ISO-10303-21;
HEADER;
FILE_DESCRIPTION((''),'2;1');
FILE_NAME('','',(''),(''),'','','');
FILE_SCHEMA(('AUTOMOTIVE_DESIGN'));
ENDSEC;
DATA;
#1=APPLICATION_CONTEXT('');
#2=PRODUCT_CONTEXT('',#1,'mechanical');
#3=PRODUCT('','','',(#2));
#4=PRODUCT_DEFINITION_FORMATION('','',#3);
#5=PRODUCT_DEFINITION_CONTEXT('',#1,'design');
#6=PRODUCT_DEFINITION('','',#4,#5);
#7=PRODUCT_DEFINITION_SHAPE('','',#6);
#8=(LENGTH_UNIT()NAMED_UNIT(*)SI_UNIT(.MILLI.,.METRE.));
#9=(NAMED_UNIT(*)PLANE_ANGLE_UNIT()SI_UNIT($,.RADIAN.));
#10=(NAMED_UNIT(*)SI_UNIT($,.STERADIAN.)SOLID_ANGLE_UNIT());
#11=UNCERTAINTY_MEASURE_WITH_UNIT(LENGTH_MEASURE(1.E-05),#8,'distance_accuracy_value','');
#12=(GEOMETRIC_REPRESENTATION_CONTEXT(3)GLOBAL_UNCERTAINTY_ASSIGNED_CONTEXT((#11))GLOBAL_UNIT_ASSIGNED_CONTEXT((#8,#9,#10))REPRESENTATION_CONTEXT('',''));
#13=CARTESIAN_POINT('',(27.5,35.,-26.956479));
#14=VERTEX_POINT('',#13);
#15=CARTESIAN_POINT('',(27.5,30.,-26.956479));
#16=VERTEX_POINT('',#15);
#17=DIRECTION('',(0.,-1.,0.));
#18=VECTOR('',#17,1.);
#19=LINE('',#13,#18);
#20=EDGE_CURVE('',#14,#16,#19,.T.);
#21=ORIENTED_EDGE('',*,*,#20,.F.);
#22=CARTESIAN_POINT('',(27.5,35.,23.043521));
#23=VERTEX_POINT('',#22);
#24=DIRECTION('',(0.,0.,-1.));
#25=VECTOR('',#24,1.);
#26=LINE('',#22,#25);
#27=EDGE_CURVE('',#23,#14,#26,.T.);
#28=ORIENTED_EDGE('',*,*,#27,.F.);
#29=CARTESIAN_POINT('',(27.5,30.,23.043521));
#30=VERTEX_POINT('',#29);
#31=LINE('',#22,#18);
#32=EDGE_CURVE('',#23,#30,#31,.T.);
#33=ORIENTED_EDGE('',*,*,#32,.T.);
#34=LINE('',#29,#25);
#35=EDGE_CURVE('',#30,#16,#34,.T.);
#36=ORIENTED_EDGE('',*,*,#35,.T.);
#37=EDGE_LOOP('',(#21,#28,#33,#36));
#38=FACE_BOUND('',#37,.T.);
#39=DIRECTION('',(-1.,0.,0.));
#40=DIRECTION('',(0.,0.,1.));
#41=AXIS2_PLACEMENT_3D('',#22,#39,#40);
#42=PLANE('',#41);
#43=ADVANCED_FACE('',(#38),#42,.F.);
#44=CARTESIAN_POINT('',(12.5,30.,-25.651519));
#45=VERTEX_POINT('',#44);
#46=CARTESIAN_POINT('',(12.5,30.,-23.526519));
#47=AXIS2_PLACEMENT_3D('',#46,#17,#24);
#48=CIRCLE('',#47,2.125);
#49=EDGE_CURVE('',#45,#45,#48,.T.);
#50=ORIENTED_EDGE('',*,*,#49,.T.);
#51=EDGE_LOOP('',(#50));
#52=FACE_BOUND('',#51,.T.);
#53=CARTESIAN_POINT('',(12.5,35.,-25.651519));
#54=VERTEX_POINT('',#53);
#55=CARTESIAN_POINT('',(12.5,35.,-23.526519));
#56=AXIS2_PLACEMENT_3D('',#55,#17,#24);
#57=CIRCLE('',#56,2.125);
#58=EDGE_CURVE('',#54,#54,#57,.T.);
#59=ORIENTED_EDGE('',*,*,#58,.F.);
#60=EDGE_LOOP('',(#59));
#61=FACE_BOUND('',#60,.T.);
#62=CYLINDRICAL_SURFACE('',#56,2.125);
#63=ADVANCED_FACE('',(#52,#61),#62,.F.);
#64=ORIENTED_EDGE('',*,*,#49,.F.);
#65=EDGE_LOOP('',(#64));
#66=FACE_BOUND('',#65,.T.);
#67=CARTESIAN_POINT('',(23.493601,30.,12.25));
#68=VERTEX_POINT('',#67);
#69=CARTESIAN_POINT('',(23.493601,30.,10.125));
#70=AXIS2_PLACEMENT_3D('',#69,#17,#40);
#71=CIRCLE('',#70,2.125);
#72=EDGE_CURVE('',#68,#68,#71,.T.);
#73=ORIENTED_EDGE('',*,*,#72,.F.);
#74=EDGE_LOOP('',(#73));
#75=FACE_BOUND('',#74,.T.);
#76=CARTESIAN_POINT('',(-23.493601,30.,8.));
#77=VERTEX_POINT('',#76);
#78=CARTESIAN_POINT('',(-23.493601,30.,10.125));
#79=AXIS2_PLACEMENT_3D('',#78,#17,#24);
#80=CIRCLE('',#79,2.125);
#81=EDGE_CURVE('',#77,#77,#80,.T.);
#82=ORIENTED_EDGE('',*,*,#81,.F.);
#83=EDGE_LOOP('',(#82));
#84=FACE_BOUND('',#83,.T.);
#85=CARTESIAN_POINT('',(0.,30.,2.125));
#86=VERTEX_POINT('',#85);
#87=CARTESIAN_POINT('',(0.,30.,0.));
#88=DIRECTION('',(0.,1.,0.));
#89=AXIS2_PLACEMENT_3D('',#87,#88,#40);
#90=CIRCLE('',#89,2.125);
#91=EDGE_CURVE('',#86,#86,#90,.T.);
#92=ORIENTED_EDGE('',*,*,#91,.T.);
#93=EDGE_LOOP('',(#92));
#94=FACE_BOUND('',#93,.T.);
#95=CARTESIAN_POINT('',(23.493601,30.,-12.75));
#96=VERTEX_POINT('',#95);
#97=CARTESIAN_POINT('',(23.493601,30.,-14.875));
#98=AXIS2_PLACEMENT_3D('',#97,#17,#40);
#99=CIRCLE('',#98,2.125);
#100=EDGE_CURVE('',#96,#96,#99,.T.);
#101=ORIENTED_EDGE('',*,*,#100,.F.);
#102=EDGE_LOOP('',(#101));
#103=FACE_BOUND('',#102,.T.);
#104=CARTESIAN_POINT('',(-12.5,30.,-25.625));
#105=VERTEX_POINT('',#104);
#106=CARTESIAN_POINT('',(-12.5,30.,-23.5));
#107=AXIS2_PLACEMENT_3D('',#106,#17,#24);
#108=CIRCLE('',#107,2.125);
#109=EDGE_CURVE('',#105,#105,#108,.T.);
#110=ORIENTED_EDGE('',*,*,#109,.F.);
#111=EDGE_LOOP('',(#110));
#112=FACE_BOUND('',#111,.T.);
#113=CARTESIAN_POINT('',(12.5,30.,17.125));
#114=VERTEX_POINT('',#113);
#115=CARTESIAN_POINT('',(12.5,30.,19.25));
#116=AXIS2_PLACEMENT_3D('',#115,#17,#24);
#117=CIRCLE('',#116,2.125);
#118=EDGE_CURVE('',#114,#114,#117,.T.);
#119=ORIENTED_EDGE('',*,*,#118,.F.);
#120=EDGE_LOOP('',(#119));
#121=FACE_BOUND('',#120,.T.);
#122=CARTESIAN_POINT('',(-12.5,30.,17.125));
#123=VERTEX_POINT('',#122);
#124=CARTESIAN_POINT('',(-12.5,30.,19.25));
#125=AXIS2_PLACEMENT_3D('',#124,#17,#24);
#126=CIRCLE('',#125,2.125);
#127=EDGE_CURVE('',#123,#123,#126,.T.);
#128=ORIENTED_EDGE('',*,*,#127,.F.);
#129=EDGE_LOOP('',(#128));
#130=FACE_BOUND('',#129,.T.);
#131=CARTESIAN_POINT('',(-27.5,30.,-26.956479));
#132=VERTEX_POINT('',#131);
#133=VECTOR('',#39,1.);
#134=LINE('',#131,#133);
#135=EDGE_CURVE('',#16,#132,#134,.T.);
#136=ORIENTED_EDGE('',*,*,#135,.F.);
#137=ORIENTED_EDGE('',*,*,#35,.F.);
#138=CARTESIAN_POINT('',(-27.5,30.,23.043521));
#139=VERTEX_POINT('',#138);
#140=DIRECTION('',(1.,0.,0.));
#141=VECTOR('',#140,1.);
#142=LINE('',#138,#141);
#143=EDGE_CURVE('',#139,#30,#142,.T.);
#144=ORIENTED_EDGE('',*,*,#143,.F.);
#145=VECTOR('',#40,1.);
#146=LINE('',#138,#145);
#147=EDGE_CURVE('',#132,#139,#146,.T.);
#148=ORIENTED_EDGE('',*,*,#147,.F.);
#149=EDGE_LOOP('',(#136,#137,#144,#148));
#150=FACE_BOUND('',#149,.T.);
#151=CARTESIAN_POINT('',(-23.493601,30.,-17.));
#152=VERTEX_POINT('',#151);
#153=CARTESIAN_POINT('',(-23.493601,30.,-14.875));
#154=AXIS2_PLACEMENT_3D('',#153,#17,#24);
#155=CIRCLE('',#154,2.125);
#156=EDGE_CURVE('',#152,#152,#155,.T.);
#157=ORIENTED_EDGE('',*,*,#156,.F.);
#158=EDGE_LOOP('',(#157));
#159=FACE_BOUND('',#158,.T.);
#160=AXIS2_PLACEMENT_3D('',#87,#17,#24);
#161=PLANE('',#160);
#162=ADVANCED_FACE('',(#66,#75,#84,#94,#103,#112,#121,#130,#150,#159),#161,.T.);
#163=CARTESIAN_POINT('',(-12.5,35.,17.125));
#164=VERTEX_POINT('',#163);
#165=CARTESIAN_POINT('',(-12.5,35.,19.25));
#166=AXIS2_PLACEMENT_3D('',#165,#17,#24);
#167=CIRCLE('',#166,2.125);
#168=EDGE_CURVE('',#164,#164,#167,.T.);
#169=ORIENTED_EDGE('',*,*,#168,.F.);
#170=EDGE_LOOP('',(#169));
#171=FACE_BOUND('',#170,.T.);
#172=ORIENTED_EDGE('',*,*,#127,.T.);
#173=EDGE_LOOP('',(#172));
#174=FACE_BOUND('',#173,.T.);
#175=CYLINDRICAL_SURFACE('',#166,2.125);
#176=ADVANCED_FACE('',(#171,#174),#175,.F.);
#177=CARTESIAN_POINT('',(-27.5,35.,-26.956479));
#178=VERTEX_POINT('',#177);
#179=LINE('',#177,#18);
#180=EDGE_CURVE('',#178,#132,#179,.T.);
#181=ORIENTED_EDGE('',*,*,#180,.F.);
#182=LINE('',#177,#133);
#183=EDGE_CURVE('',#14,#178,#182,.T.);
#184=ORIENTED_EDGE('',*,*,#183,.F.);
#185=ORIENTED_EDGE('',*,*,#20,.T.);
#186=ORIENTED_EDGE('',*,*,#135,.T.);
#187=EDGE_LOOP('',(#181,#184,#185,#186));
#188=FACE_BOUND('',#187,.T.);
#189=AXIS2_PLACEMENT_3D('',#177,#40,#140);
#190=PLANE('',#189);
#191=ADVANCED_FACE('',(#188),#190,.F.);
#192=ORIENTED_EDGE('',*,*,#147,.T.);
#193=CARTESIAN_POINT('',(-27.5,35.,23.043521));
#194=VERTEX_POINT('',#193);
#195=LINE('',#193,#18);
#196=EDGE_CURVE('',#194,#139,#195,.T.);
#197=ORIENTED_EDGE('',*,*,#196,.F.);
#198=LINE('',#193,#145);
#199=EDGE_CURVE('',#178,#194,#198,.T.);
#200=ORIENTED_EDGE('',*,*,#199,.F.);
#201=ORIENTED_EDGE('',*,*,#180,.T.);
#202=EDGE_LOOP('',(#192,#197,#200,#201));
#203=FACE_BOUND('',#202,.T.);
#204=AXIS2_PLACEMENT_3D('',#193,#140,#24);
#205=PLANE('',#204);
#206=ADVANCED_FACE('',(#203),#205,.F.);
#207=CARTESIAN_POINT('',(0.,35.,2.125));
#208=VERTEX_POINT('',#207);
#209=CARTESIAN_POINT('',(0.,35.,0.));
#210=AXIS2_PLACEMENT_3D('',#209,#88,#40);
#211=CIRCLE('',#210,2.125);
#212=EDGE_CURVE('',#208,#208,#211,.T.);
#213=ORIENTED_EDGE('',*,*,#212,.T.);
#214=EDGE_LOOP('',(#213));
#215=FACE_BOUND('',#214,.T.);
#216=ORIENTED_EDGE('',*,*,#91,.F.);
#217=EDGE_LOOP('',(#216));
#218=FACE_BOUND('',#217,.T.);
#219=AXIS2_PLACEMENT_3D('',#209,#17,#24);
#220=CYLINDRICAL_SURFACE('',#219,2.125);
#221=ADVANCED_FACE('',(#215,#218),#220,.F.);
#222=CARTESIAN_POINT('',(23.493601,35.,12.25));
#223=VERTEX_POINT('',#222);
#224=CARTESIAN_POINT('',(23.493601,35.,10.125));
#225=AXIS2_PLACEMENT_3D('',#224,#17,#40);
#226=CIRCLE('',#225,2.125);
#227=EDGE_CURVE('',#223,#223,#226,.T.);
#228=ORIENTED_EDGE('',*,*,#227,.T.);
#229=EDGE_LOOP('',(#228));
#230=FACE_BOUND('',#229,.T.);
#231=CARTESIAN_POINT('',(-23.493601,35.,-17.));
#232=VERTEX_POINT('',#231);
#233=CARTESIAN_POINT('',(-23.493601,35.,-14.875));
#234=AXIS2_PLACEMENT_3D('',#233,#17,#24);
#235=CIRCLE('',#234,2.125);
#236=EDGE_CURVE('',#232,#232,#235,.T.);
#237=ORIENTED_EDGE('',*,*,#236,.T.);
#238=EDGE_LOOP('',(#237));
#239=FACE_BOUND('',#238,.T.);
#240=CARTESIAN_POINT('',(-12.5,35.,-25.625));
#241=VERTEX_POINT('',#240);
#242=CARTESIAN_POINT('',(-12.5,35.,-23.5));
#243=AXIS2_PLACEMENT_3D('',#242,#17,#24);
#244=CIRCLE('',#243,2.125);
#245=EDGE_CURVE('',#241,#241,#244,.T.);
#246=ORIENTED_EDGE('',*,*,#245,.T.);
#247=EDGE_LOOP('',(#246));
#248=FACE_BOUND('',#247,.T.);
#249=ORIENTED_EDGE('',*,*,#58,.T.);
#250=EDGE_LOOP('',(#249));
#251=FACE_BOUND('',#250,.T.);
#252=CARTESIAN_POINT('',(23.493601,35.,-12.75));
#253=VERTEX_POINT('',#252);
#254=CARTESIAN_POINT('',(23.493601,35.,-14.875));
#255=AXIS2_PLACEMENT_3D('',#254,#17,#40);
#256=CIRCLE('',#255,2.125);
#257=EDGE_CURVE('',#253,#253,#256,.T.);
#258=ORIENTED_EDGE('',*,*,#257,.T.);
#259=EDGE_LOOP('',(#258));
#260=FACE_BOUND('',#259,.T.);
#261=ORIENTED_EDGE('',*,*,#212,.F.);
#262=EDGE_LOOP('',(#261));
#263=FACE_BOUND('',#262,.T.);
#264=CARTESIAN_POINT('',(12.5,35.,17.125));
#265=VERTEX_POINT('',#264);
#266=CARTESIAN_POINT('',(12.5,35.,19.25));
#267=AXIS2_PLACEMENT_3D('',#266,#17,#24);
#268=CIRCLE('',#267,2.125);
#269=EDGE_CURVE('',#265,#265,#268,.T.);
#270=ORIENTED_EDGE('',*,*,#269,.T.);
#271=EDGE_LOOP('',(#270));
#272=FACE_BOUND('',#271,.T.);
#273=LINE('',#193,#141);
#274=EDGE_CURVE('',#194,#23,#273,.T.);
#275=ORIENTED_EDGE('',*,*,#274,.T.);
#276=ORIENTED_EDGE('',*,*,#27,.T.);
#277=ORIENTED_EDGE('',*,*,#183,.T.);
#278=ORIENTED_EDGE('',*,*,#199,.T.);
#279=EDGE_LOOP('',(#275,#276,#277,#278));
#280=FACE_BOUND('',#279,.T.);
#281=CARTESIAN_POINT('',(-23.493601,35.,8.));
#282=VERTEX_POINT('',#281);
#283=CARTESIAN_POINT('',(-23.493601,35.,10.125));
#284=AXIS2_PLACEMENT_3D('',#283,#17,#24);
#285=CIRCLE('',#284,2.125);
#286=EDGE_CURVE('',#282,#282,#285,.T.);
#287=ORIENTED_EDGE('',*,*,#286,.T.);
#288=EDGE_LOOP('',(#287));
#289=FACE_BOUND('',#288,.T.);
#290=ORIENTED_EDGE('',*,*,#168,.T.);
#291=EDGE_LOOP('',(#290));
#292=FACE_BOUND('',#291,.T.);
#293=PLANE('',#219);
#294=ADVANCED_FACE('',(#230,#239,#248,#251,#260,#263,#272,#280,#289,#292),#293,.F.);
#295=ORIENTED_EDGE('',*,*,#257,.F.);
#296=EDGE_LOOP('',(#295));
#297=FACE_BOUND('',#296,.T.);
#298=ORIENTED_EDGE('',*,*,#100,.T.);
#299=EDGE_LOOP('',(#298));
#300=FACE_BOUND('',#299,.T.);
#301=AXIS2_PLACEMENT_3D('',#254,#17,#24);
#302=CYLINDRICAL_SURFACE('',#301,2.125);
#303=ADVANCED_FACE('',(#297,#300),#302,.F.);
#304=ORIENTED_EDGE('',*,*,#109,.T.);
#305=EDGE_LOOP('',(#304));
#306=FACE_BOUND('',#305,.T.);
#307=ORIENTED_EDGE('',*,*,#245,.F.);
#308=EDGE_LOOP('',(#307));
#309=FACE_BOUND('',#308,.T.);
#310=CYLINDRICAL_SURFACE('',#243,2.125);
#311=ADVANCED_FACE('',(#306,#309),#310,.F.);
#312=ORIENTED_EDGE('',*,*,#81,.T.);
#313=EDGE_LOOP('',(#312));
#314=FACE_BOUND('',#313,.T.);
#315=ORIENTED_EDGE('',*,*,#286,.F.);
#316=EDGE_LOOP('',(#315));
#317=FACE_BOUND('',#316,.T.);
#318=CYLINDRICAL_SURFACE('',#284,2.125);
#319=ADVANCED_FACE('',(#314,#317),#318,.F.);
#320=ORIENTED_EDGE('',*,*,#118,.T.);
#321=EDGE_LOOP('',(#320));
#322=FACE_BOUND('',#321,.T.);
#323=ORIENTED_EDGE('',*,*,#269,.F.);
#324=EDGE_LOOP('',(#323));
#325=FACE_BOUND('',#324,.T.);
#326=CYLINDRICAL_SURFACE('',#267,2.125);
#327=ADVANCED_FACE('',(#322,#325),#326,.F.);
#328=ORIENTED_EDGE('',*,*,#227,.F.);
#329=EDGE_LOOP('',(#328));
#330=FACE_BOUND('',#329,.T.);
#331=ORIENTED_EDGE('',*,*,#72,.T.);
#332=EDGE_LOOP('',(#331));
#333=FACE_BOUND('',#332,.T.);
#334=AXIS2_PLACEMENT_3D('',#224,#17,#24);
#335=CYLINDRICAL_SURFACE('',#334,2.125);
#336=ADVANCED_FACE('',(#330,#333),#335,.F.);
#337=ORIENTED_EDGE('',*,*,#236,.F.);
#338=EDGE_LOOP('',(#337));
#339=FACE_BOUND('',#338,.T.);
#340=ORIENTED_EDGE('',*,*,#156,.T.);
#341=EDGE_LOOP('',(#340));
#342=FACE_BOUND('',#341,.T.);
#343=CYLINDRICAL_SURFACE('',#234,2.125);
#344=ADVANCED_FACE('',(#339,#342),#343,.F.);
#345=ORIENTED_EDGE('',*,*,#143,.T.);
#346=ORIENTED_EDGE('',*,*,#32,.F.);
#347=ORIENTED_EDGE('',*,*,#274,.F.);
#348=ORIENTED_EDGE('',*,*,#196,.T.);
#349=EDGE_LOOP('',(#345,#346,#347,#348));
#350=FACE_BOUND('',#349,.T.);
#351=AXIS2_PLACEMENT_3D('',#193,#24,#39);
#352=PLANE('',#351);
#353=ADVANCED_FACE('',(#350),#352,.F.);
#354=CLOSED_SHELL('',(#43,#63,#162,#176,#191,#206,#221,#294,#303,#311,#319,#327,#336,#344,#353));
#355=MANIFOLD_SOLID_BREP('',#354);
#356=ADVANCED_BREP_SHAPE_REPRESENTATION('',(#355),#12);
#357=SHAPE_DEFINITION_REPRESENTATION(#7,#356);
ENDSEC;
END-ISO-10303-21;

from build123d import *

# Parameters (mm, degrees)
CROQUIS1_R                              = 15.25
CROQUIS1_R_2                            = 2.125
SOPORTE_CAJA_REDUCTORA_DEPTH            = 20
CROQUIS3_R                              = 2.125
CORTAR_EXTRUIR1_DEPTH                   = 51.423828692
REDONDEO1_R                             = 5
BOSS_EXTRUDE1_DEPTH                     = 20
CUT_EXTRUDE1_REACH                      = 55.852
SKETCH2_R                               = 1.625
CUT_EXTRUDE2_DEPTH                      = 2
SKETCH4_R                               = 1.625
CUT_EXTRUDE3_DEPTH                      = 63.291652731
CUT_EXTRUDE4_START                      = -4.5
CUT_EXTRUDE4_DEPTH                      = 2
CROQUIS6_W                              = 4.75
CROQUIS6_H                              = 4.75
CORTAR_EXTRUIR17_DEPTH                  = 42.231056256
CROQUIS7_W                              = 60
CROQUIS7_H                              = 20
CORTAR_EXTRUIR18_DEPTH                  = 51.423828692
SALIENTE_EXTRUIR2_DEPTH                 = 49
SOPORTE_START                           = -15
SOPORTE_MOTOR_DEPTH                     = 15
CROQUIS12_R                             = 2.125
AGUJEROS_DE_SUJECION_A_BASE_DEPTH       = 84.087679592
TUERCA_START                            = -4
TUERCA_AGUJERO_DE_SUJECION_A_BASE_DEPTH = 10
SALIENTE_EXTRUIR4_DEPTH                 = 15
CORTAR_EXTRUIR19_DEPTH                  = 25
CROQUIS14_W                             = 50
CROQUIS14_H                             = 118
CORTAR_EXTRUIR22_DEPTH                  = 146.556045907
CROQUIS15_W                             = 10
CROQUIS15_H                             = 7
CORTAR_EXTRUIR23_DEPTH                  = 42.231056256
CORTAR_EXTRUIR24_DEPTH                  = 42.231056256
CROQUIS18_W                             = 40
CROQUIS18_H                             = 10
CORTAR_EXTRUIR25_DEPTH                  = 44.27311521
SALIENTE_EXTRUIR5_DEPTH                 = 10
CROQUIS20_R                             = 1
CORTAR_EXTRUIR26_DEPTH                  = 49.229270158
CORTAR_EXTRUIR27_REACH                  = 62.959
CORTAR_EXTRUIR27_END_RADIUS             = 15.25
CROQUIS21_R                             = 1.625
CROQUIS22_R                             = 2.125
CROQUIS22_R_2                           = 1
SALIENTE_EXTRUIR6_DEPTH                 = 10
CROQUIS23_R                             = 1.625
CORTAR_EXTRUIR28_DEPTH                  = 52.269508521
CORTAR_EXTRUIR29_START                  = -3
CORTAR_EXTRUIR29_DEPTH                  = 10
SALIENTE_EXTRUIR7_DEPTH                 = 10
CORTAR_EXTRUIR30_REACH                  = 72.235
CROQUIS27_R                             = 1.625
CORTAR_EXTRUIR31_REACH                  = 75.235
CORTAR_EXTRUIR31_START                  = -3
CORTAR_EXTRUIR32_REACH                  = 58.612
CROQUIS29_R                             = 1.625
CORTAR_EXTRUIR33_REACH                  = 61.112
CORTAR_EXTRUIR33_START                  = -2.5
CROQUIS35_W                             = 13.305418987
CROQUIS35_H                             = 6.826864192
CORTAR_EXTRUIR34_DEPTH                  = 63.931555098
CORTAR_EXTRUIR34_DEPTH_BACK             = 63.931555098
CORTAR_EXTRUIR35_START                  = -3
CORTAR_EXTRUIR35_DEPTH                  = 10
SALIENTE_EXTRUIR8_DEPTH                 = 10
SALIENTE_EXTRUIR9_DEPTH                 = 13
SALIENTE_EXTRUIR10_DEPTH                = 3
CROQUIS40_W                             = 106.583537839
CROQUIS40_H                             = 47.391515964
CORTAR_EXTRUIR36_DEPTH                  = 80.887064817
CORTAR_EXTRUIR36_DEPTH_BACK             = 80.887064817
CORTAR_EXTRUIR37_DEPTH                  = 67.2524009
CORTAR_EXTRUIR37_DEPTH_BACK             = 67.2524009
CORTAR_EXTRUIR38_DEPTH                  = 79.704784639
CORTAR_EXTRUIR38_DEPTH_BACK             = 79.704784639
SALIENTE_EXTRUIR11_DEPTH                = 10
CORTAR_EXTRUIR39_DEPTH                  = 63.9908649
CROQUIS45_W                             = 31.470301378
CROQUIS45_H                             = 10
CROQUIS45_R                             = 1.625
SALIENTE_EXTRUIR12_DEPTH                = 2.5
SALIENTE_EXTRUIR13_DEPTH                = 10
CORTAR_EXTRUIR40_START                  = -2
CROQUIS47_R                             = 1.625
CORTAR_EXTRUIR40_DEPTH                  = 10
CORTAR_EXTRUIR41_START                  = -12
CROQUIS48_R                             = 1.625
CORTAR_EXTRUIR41_DEPTH                  = 12
CROQUIS49_W                             = 34.796066513
CROQUIS49_H                             = 42.211026982
CORTAR_EXTRUIR42_DEPTH                  = 52.795622989
CORTAR_EXTRUIR42_DEPTH_BACK             = 52.795622989
CROQUIS51_R                             = 15.25
CROQUIS51_R_2                           = 14.25
SALIENTE_EXTRUIR14_DEPTH                = 10
CORTAR_EXTRUIR43_DEPTH                  = 10
CORTAR_EXTRUIR44_DEPTH                  = 10
CORTAR_EXTRUIR45_DEPTH                  = 10
SALIENTE_EXTRUIR15_DEPTH                = 10
CROQUIS56_W                             = 55
CROQUIS56_H                             = 50
CROQUIS56_R                             = 2.125
SALIENTE_EXTRUIR16_DEPTH                = 5
CROQUIS57_W                             = 42.651963039
CROQUIS57_H                             = 12.802181648
CORTAR_EXTRUIR46_DEPTH                  = 71.545387859
CORTAR_EXTRUIR46_DEPTH_BACK             = 71.545387859
CROQUIS58_R                             = 2.125
CORTAR_EXTRUIR47_DEPTH                  = 5


with BuildPart() as part:
    # Croquis1 → Soporte caja reductora (new body)
    with BuildSketch(Plane(origin=(0, 0, 0), x_dir=(1, 0, 0), z_dir=(0, 1, 0))):
        Polygon((-30, -15.25), (-20, -15.25), (-20, -20), (20, -20), (20, -15.25), (30, -15.25), (30, -7.25), (20, -4.25), (20, 20), (-20, 20), (-20, -4.25), (-30, -7.25), align=None)
        with Locations(Location((0, 0, 0), (0, 0, 270))):
            Circle(CROQUIS1_R, mode=Mode.SUBTRACT)
        with Locations(Location((-15, 15, 0), (0, 0, 270))):
            Circle(CROQUIS1_R_2, mode=Mode.SUBTRACT)
        with Locations(Location((15, 15, 0), (0, 0, 270))):
            Circle(CROQUIS1_R_2, mode=Mode.SUBTRACT)
    extrude(amount=-SOPORTE_CAJA_REDUCTORA_DEPTH)

    # Croquis3 → Cortar-Extruir1 (cut, through all)
    with BuildSketch(Plane.XY.offset(15.25)):
        with Locations((-23.5, -10)):
            Circle(CROQUIS3_R)
        with Locations((23.5, -10)):
            Circle(CROQUIS3_R)
    extrude(amount=-CORTAR_EXTRUIR1_DEPTH, mode=Mode.SUBTRACT)

    # Redondeo1
    redondeo1_edges = [part.edges().sort_by_distance(p)[0] for p in [
        (-20, -10, -20),
        (20, -10, -20),
    ]]
    fillet(redondeo1_edges, radius=REDONDEO1_R)

    # Sketch1 → Boss-Extrude1 (add)
    with BuildSketch(Plane(origin=(0, 0, 0), x_dir=(1, 0, 0), z_dir=(0, 1, 0))):
        with BuildLine():
            Line((25.5, 15), (20, 15))
            ThreePointArc((20, 15), (18.535533906, 18.535533906), (15, 20))
            Line((15, 20), (30, 20))
            Line((30, 20), (30, 8))
            Line((30, 8), (25.5, 8))
            Line((25.5, 8), (25.5, 15))
        make_face()
    extrude(amount=-BOSS_EXTRUDE1_DEPTH)

    # Sketch2 → Cut-Extrude1 (cut, up to next)
    with BuildSketch(Plane(origin=(0, 0, -20), x_dir=(-1, 0, 0), z_dir=(0, 0, -1)), mode=Mode.PRIVATE) as cut_extrude1_sk1:
        with Locations((-22.75, -10)):
            Circle(SKETCH2_R)
    cut_extrude1_tool1 = extrude(cut_extrude1_sk1.sketch, amount=-CUT_EXTRUDE1_REACH, mode=Mode.PRIVATE) & part.part
    add(cut_extrude1_tool1.solids().sort_by_distance((22.75, -10, -20))[0], mode=Mode.SUBTRACT)

    # Sketch3 → Cut-Extrude2 (cut)
    with BuildSketch(Plane.XY.offset(-15)):
        Polygon((20, -11.58771324), (22.75, -13.175426481), (25.5, -11.58771324), (25.5, -8.41228676), (22.75, -6.824573519), (20, -8.41228676), align=None)
    extrude(amount=-CUT_EXTRUDE2_DEPTH, mode=Mode.SUBTRACT)

    # Sketch4 → Cut-Extrude3 (cut, through all)
    with BuildSketch(Plane.ZY.offset(-25.5)):
        with Locations((-12.25, -10)):
            Circle(SKETCH4_R)
    extrude(amount=-CUT_EXTRUDE3_DEPTH, mode=Mode.SUBTRACT)

    # Sketch5 → Cut-Extrude4 (cut)
    with BuildSketch(Plane(origin=(30, 0, 0), x_dir=(0, 0, -1), z_dir=(1, 0, 0)).offset(CUT_EXTRUDE4_START)):
        Polygon((15, -11.58771324), (15, -8.41228676), (12.25, -6.824573519), (9.5, -8.41228676), (9.5, -11.58771324), (12.25, -13.175426481), align=None)
    extrude(amount=CUT_EXTRUDE4_DEPTH, mode=Mode.SUBTRACT)

    # Croquis6 → Cortar-Extruir17 (cut, through all)
    with BuildSketch(Plane(origin=(0, 0, 0), x_dir=(1, 0, 0), z_dir=(0, 1, 0))):
        Polygon((0, -15.25), (-15.25, -15.25), (-15.25, -20), (15.25, -20), (15.25, -15.25), align=None)
        with Locations((-17.625, -17.625)):
            Rectangle(CROQUIS6_W, CROQUIS6_H)
        with BuildLine():
            ThreePointArc((0, -15.25), (-10.783378413, -10.783378413), (-15.25, 0))
            Line((-15.25, 0), (-15.25, -15.25))
            Line((-15.25, -15.25), (0, -15.25))
        make_face()
        with BuildLine():
            Line((15.25, -15.25), (15.25, 0))
            ThreePointArc((15.25, 0), (10.783378413, -10.783378413), (0, -15.25))
            Line((0, -15.25), (15.25, -15.25))
        make_face()
        with Locations((17.625, -17.625)):
            Rectangle(CROQUIS6_W, CROQUIS6_H)
    extrude(amount=-CORTAR_EXTRUIR17_DEPTH, mode=Mode.SUBTRACT)


with BuildPart() as body_2:
    # Simetría1: mirrored copy
    add(part.part.mirror(Plane.ZX))

    # Croquis8 → Saliente-Extruir2 (add)
    with BuildSketch(Plane(origin=(0, 20, 0), x_dir=(1, 0, 0), z_dir=(0, 1, 0))):
        with BuildLine():
            Line((-12.664515522, 20), (-11.040489496, 13.939052358))
            Line((-11.040489496, 13.939052358), (-10.315162126, 11.232093763))
            ThreePointArc((-10.315162126, 11.232093763), (0, 15.25), (10.315162126, 11.232093763))
            Line((10.315162126, 11.232093763), (10.817418481, 13.87928066))
            Line((10.817418481, 13.87928066), (11.978715476, 20))
            Line((11.978715476, 20), (-12.664515522, 20))
        make_face()
    extrude(amount=SALIENTE_EXTRUIR2_DEPTH)

    # Croquis9 → Soporte motor (add)
    with BuildSketch(Plane(origin=(0, 69, 0), x_dir=(1, 0, 0), z_dir=(0, 1, 0)).offset(SOPORTE_START)):
        with BuildLine():
            Line((-20, 15), (-20, -4.25))
            Line((-20, -4.25), (-30, -7.25))
            Line((-30, -7.25), (-30, -15.25))
            Line((-30, -15.25), (0, -15.25))
            Line((0, -15.25), (0, -14.75))
            ThreePointArc((0, -14.75), (-10.429825023, 10.429825023), (14.75, 0))
            Line((14.75, 0), (20, 0))
            Line((20, 0), (20, 13.936837101))
            Line((20, 13.936837101), (12.664515522, 20))
            Line((12.664515522, 20), (-15, 20))
            ThreePointArc((-15, 20), (-18.535533906, 18.535533906), (-20, 15))
        make_face()
    extrude(amount=-SOPORTE_MOTOR_DEPTH)

    # Croquis12 → Agujeros de sujecion a base (cut, through all)
    with BuildSketch(Plane.XY.offset(15.25)):
        with Locations((-23.5, 46.5)):
            Circle(CROQUIS12_R)
    extrude(amount=-AGUJEROS_DE_SUJECION_A_BASE_DEPTH, mode=Mode.SUBTRACT)

    # Croquis13 → Tuerca Agujero de sujecion a base (cut)
    with BuildSketch(Plane.XY.offset(15.25).offset(TUERCA_START)):
        Polygon((-20, 44.479274058), (-20, 48.520725942), (-23.5, 50.541451884), (-27, 48.520725942), (-27, 44.479274058), (-23.5, 42.458548116), align=None)
    extrude(amount=-TUERCA_AGUJERO_DE_SUJECION_A_BASE_DEPTH, mode=Mode.SUBTRACT)

    # Croquis10 → Saliente-Extruir4 (add)
    with BuildSketch(Plane(origin=(0, 69, 0), x_dir=(1, 0, 0), z_dir=(0, 1, 0))):
        with BuildLine():
            ThreePointArc((10.315162126, 11.232093763), (0, 15.25), (-10.315162126, 11.232093763))
            Line((-10.315162126, 11.232093763), (-10.16850369, 10.684757026))
            ThreePointArc((-10.16850369, 10.684757026), (0, 14.75), (10.16850369, 10.684757026))
            Line((10.16850369, 10.684757026), (10.315162126, 11.232093763))
        make_face()
    extrude(amount=-SALIENTE_EXTRUIR4_DEPTH)

    # Croquis11 → Cortar-Extruir19 (cut)
    with BuildSketch(Plane.XZ):
        with BuildLine():
            Line((15.25, 4.25), (20, 4.25))
            Line((20, 4.25), (21.972856468, 4.84185694))
            ThreePointArc((21.972856468, 4.84185694), (19.948931102, 10.40625523), (16.543503257, 15.25))
            Line((16.543503257, 15.25), (15.25, 15.25))
            Line((15.25, 15.25), (15.25, 4.25))
        make_face()
        with BuildLine():
            Line((21.972856468, 4.84185694), (30, 7.25))
            Line((30, 7.25), (30, 15.25))
            Line((30, 15.25), (16.543503257, 15.25))
            ThreePointArc((16.543503257, 15.25), (19.948931102, 10.40625523), (21.972856468, 4.84185694))
        make_face()
        with BuildLine():
            ThreePointArc((20, -15), (18.535533906, -18.535533906), (15, -20))
            Line((15, -20), (30, -20))
            Line((30, -20), (30, -8))
            Line((30, -8), (25.5, -8))
            Line((25.5, -8), (25.5, -15))
            Line((25.5, -15), (20, -15))
        make_face()
    extrude(amount=-CORTAR_EXTRUIR19_DEPTH, mode=Mode.SUBTRACT)

    # Simetría2: body 2 across face


with BuildPart() as part_1:
    add(part.part)

    # Croquis7 → Cortar-Extruir18 (cut, through all)
    with BuildSketch(Plane(origin=(0, 0, -20), x_dir=(-1, 0, 0), z_dir=(0, 0, -1))):
        with Locations((0, -10)):
            Rectangle(CROQUIS7_W, CROQUIS7_H)
    extrude(amount=-CORTAR_EXTRUIR18_DEPTH, mode=Mode.SUBTRACT)


with BuildPart() as body_2_1:
    add(body_2.part)
    add(body_2.part.mirror(Plane(origin=(-0.229209569, 69, -16.663998028), x_dir=(0, 0, 1), z_dir=(0, 1, 0))))

    # Croquis14 → Cortar-Extruir22 (cut, through all)
    with BuildSketch(Plane.XY.offset(15.25)):
        with Locations((-5, 79)):
            Rectangle(CROQUIS14_W, CROQUIS14_H)
    extrude(amount=-CORTAR_EXTRUIR22_DEPTH, mode=Mode.SUBTRACT)

    # Croquis15 → Cortar-Extruir23 (cut, through all)
    with BuildSketch(Plane.XZ):
        with Locations((-25, 7.75)):
            Rectangle(CROQUIS15_W, CROQUIS15_H)
    extrude(amount=-CORTAR_EXTRUIR23_DEPTH, mode=Mode.SUBTRACT)

    # Croquis16 → Cortar-Extruir24 (cut, through all)
    with BuildSketch(Plane.XZ):
        Polygon((-30, 15.25), (-15.25, 15.25), (-15.25, 12.75), (-20, 12.75), (-20, 11.25), (-30, 11.25), (-30, 12.75), align=None)
    extrude(amount=-CORTAR_EXTRUIR24_DEPTH, mode=Mode.SUBTRACT)

    # Croquis18 → Cortar-Extruir25 (cut, through all)
    with BuildSketch(Plane(origin=(0, 0, -20), x_dir=(-1, 0, 0), z_dir=(0, 0, -1))):
        with Locations((0, 5)):
            Rectangle(CROQUIS18_W, CROQUIS18_H)
    extrude(amount=-CORTAR_EXTRUIR25_DEPTH, mode=Mode.SUBTRACT)

    # Croquis19 → Saliente-Extruir5 (add)
    with BuildSketch(Plane(origin=(0, 20, 0), x_dir=(1, 0, 0), z_dir=(0, 1, 0))):
        Polygon((-20, -12.75), (-34, -12.75), (-34, -7.75), (-24, -7.75), (-20, -3.75), align=None)
    extrude(amount=-SALIENTE_EXTRUIR5_DEPTH)

    # Croquis20 → Cortar-Extruir26 (cut, through all)
    with BuildSketch(Plane(origin=(0, 0, 7.75), x_dir=(-1, 0, 0), z_dir=(0, 0, -1))):
        with Locations((29, 15)):
            Circle(CROQUIS20_R)
    extrude(amount=-CORTAR_EXTRUIR26_DEPTH, mode=Mode.SUBTRACT)

    # Cortar-Extruir27: up to this cylinder (the profile starts outside it)
    cortar_extruir27_end = Plane(origin=(0, 15, 0), z_dir=(0, -1, 0)) * Cylinder(CORTAR_EXTRUIR27_END_RADIUS, 157.418, mode=Mode.PRIVATE)
    # Croquis21 → Cortar-Extruir27 (cut, up to the surface)
    with BuildSketch(Plane(origin=(20, 0, 0), x_dir=(0, 0, -1), z_dir=(1, 0, 0)), mode=Mode.PRIVATE) as cortar_extruir27_sk1:
        with Locations((4.75, 15)):
            Circle(CROQUIS21_R)
    cortar_extruir27_tool1 = extrude(cortar_extruir27_sk1.sketch, amount=-CORTAR_EXTRUIR27_REACH, mode=Mode.PRIVATE) - cortar_extruir27_end
    add(cortar_extruir27_tool1.solids().sort_by_distance((20, 15, -4.75))[0], mode=Mode.SUBTRACT)

    # Croquis22 → Saliente-Extruir6 (add)
    with BuildSketch(Plane.XZ.offset(-10)):
        with Locations((-15, -15)):
            Circle(CROQUIS22_R)
        with Locations(Location((-15, -15, 0), (0, 0, 270))):
            Circle(CROQUIS22_R_2, mode=Mode.SUBTRACT)
        with Locations((15, -15)):
            Circle(CROQUIS22_R)
        with Locations(Location((15, -15, 0), (0, 0, 270))):
            Circle(CROQUIS22_R_2, mode=Mode.SUBTRACT)
    extrude(amount=-SALIENTE_EXTRUIR6_DEPTH)

    # Croquis23 → Cortar-Extruir28 (cut, through all)
    with BuildSketch(Plane(origin=(0, 0, -20), x_dir=(-1, 0, 0), z_dir=(0, 0, -1))):
        with Locations((0, 15)):
            Circle(CROQUIS23_R)
    extrude(amount=-CORTAR_EXTRUIR28_DEPTH, mode=Mode.SUBTRACT)

    # Croquis24 → Cortar-Extruir29 (cut)
    with BuildSketch(Plane(origin=(0, 0, -20), x_dir=(-1, 0, 0), z_dir=(0, 0, -1)).offset(CORTAR_EXTRUIR29_START)):
        Polygon((1.58771324, 12.25), (3.175426481, 15), (1.58771324, 17.75), (-1.58771324, 17.75), (-3.175426481, 15), (-1.58771324, 12.25), align=None)
    extrude(amount=-CORTAR_EXTRUIR29_DEPTH, mode=Mode.SUBTRACT)

    # Croquis26 → Saliente-Extruir7 (add)
    with BuildSketch(Plane.XZ.offset(-10)):
        Polygon((-34, 7.75), (-34, 12.75), (-58.825, 12.75), (-39.160527763, -4.104491148), (-20, -4.104491148), (-20, -0.104491148), (-35.732113118, -0.104491148), (-29, 7.75), align=None)
        Polygon((-34.268209086, 7.75), (-39.594516123, 1.535690951), (-46.844874897, 7.75), align=None, mode=Mode.SUBTRACT)
    extrude(amount=-SALIENTE_EXTRUIR7_DEPTH)

    # Croquis27 → Cortar-Extruir30 (cut, up to next)
    with BuildSketch(Plane.XY.offset(12.75), mode=Mode.PRIVATE) as cortar_extruir30_sk1:
        with Locations((-40.544874897, 15)):
            Circle(CROQUIS27_R)
    cortar_extruir30_tool1 = extrude(cortar_extruir30_sk1.sketch, amount=-CORTAR_EXTRUIR30_REACH, mode=Mode.PRIVATE) & body_2_1.part
    # Croquis27 → Cortar-Extruir30 (cut, up to next)
    with BuildSketch(Plane.XY.offset(12.75), mode=Mode.PRIVATE) as cortar_extruir30_sk2:
        with Locations((-29, 15)):
            Circle(CROQUIS27_R)
    cortar_extruir30_tool2 = extrude(cortar_extruir30_sk2.sketch, amount=-CORTAR_EXTRUIR30_REACH, mode=Mode.PRIVATE) & body_2_1.part
    add(cortar_extruir30_tool1.solids().sort_by_distance((-40.544875, 15, 12.75))[0], mode=Mode.SUBTRACT)
    add(cortar_extruir30_tool2.solids().sort_by_distance((-29, 15, 12.75))[0], mode=Mode.SUBTRACT)

    # Croquis28 → Cortar-Extruir31 (cut, up to next)
    with BuildSketch(Plane.XY.offset(12.75).offset(CORTAR_EXTRUIR31_START), mode=Mode.PRIVATE) as cortar_extruir31_sk1:
        Polygon((-38.957161657, 12.25), (-37.369448416, 15), (-38.957161657, 17.75), (-42.132588137, 17.75), (-43.720301378, 15), (-42.132588137, 12.25), align=None)
    cortar_extruir31_tool1 = extrude(cortar_extruir31_sk1.sketch, amount=-CORTAR_EXTRUIR31_REACH, mode=Mode.PRIVATE) & body_2_1.part
    # Croquis28 → Cortar-Extruir31 (cut, up to next)
    with BuildSketch(Plane.XY.offset(12.75).offset(CORTAR_EXTRUIR31_START), mode=Mode.PRIVATE) as cortar_extruir31_sk2:
        Polygon((-27.41228676, 12.25), (-25.824573519, 15), (-27.41228676, 17.75), (-30.58771324, 17.75), (-32.175426481, 15), (-30.58771324, 12.25), align=None)
    cortar_extruir31_tool2 = extrude(cortar_extruir31_sk2.sketch, amount=-CORTAR_EXTRUIR31_REACH, mode=Mode.PRIVATE) & body_2_1.part
    add(cortar_extruir31_tool1.solids().sort_by_distance((-40.544875, 15, 9.75))[0], mode=Mode.SUBTRACT)
    add(cortar_extruir31_tool2.solids().sort_by_distance((-29, 15, 9.75))[0], mode=Mode.SUBTRACT)

    # Croquis29 → Cortar-Extruir32 (cut, up to next)
    with BuildSketch(Plane(origin=(-18.612848159, 0, -21.715982563), x_dir=(-0.7592713073348843, 0, 0.6507742172658468), z_dir=(-0.6507742172658468, 0, -0.7592713073348843)), mode=Mode.PRIVATE) as cortar_extruir32_sk1:
        with Locations((33.812368097, 15)):
            Circle(CROQUIS29_R)
    cortar_extruir32_tool1 = extrude(cortar_extruir32_sk1.sketch, amount=-CORTAR_EXTRUIR32_REACH, mode=Mode.PRIVATE) & body_2_1.part
    add(cortar_extruir32_tool1.solids().sort_by_distance((-44.285609, 15, 0.288235))[0], mode=Mode.SUBTRACT)

    # Croquis31 → Cortar-Extruir33 (cut, up to next)
    with BuildSketch(Plane(origin=(-18.612848159, 0, -21.715982563), x_dir=(-0.7592713073348843, 0, 0.6507742172658468), z_dir=(-0.6507742172658468, 0, -0.7592713073348843)).offset(CORTAR_EXTRUIR33_START), mode=Mode.PRIVATE) as cortar_extruir33_sk1:
        Polygon((36.562368097, 16.58771324), (33.812368097, 18.175426481), (31.062368097, 16.58771324), (31.062368097, 13.41228676), (33.812368097, 11.824573519), (36.562368097, 13.41228676), align=None)
    cortar_extruir33_tool1 = extrude(cortar_extruir33_sk1.sketch, amount=-CORTAR_EXTRUIR33_REACH, mode=Mode.PRIVATE) & body_2_1.part
    add(cortar_extruir33_tool1.solids().sort_by_distance((-42.658674, 15, 2.186413))[0], mode=Mode.SUBTRACT)

    # Croquis35 → Cortar-Extruir34 (cut, two sides)
    with BuildSketch(Plane(origin=(0, 20, 0), x_dir=(1, 0, 0), z_dir=(0, 1, 0))) as cortar_extruir34_sk:
        with Locations((17.04227466, -3.413432096)):
            Rectangle(CROQUIS35_W, CROQUIS35_H)
    extrude(amount=CORTAR_EXTRUIR34_DEPTH, mode=Mode.SUBTRACT)
    extrude(cortar_extruir34_sk.sketch, amount=-CORTAR_EXTRUIR34_DEPTH_BACK, mode=Mode.SUBTRACT)

    # Croquis36 → Cortar-Extruir35 (cut)
    with BuildSketch(Plane(origin=(20, 0, 0), x_dir=(0, 0, -1), z_dir=(1, 0, 0)).offset(CORTAR_EXTRUIR35_START)):
        Polygon((7.5, 16.58771324), (4.75, 18.175426481), (2, 16.58771324), (2, 13.41228676), (4.75, 11.824573519), (7.5, 13.41228676), align=None)
    extrude(amount=-CORTAR_EXTRUIR35_DEPTH, mode=Mode.SUBTRACT)

    # Croquis37 → Saliente-Extruir8 (add)
    with BuildSketch(Plane.XZ.offset(-10)):
        Polygon((-39.160527763, -4.104491148), (-20.614919368, -20), (-15, -20), (-19.558128305, -15.637570403), (-33.014002756, -4.104491148), align=None)
    extrude(amount=-SALIENTE_EXTRUIR8_DEPTH)

    # Croquis38 → Saliente-Extruir9 (add)
    with BuildSketch(Plane.XZ.offset(-10)):
        Polygon((-58.825, 12.75), (-38.825, 12.75), (-38.825, 9.75), (-55.324839942, 9.75), align=None)
    extrude(amount=SALIENTE_EXTRUIR9_DEPTH)

    # Croquis39 → Saliente-Extruir10 (add)
    with BuildSketch(Plane.XZ.offset(-10)):
        Polygon((-38.825, 9.75), (-38.825, 7.75), (-38.825, 5.75), (-50.657959865, 5.75), (-52.991399903, 7.75), (-55.324839942, 9.75), align=None)
    extrude(amount=SALIENTE_EXTRUIR10_DEPTH)

    # Simetría3: body 2 across face


with BuildPart() as body_2_2:
    add(body_2_1.part)
    add(body_2_1.part.mirror(Plane(origin=(-18.003999227, 20, -4.220503046), x_dir=(0, 0, 1), z_dir=(0, 1, 0))))

    # Croquis40 → Cortar-Extruir36 (cut, two sides)
    with BuildSketch(Plane(origin=(0, 0, -20), x_dir=(-1, 0, 0), z_dir=(0, 0, -1))) as cortar_extruir36_sk:
        with Locations((22.395502026, -3.695757982)):
            Rectangle(CROQUIS40_W, CROQUIS40_H)
    extrude(amount=CORTAR_EXTRUIR36_DEPTH, mode=Mode.SUBTRACT)
    extrude(cortar_extruir36_sk.sketch, amount=-CORTAR_EXTRUIR36_DEPTH_BACK, mode=Mode.SUBTRACT)

    # Croquis41 → Cortar-Extruir37 (cut, two sides)
    with BuildSketch(Plane.XZ.offset(-20)) as cortar_extruir37_sk:
        Polygon((-19.992980133, -22.302484261), (-20, 3.75), (-24, 7.75), (-56.035110209, 7.75), align=None)
    extrude(amount=CORTAR_EXTRUIR37_DEPTH, mode=Mode.SUBTRACT)
    extrude(cortar_extruir37_sk.sketch, amount=-CORTAR_EXTRUIR37_DEPTH_BACK, mode=Mode.SUBTRACT)

    # Croquis42 → Cortar-Extruir38 (cut, two sides)
    with BuildSketch(Plane(origin=(0, 0, 9.75), x_dir=(-1, 0, 0), z_dir=(0, 0, -1))) as cortar_extruir38_sk:
        Polygon((46.720301378, 20), (46.720301378, 30), (38.825, 30), (33.492952769, 43.760628779), (49.525340398, 48.951442806), (67.200390695, 42.512205152), (65.906601328, 20), (51.713995885, 13.864168239), align=None)
    extrude(amount=CORTAR_EXTRUIR38_DEPTH, mode=Mode.SUBTRACT)
    extrude(cortar_extruir38_sk.sketch, amount=-CORTAR_EXTRUIR38_DEPTH_BACK, mode=Mode.SUBTRACT)

    # Croquis43 → Saliente-Extruir11 (add)
    with BuildSketch(Plane.XZ.offset(-20)):
        Polygon((-19.993600539, -20), (-46.720301378, 7.75), (-43.839252857, 10.524807997), (-17.112552018, -17.225192003), align=None)
    extrude(amount=-SALIENTE_EXTRUIR11_DEPTH)

    # Croquis44 → Cortar-Extruir39 (cut, through all)
    with BuildSketch(Plane(origin=(0, 0, 9.75), x_dir=(-1, 0, 0), z_dir=(0, 0, -1))):
        Polygon((38.957161657, 27.75), (37.369448416, 25), (38.957161657, 22.25), (42.132588137, 22.25), (43.720301378, 25), (42.132588137, 27.75), align=None)
    extrude(amount=CORTAR_EXTRUIR39_DEPTH, mode=Mode.SUBTRACT)

    # Croquis45 → Saliente-Extruir12 (add)
    with BuildSketch(Plane.XY.offset(12.75)):
        with Locations((-30.985150689, 25)):
            Rectangle(CROQUIS45_W, CROQUIS45_H)
        with Locations((-40.544874897, 25)):
            Circle(CROQUIS45_R, mode=Mode.SUBTRACT)
        with Locations((-29, 25)):
            Circle(CROQUIS45_R, mode=Mode.SUBTRACT)
    extrude(amount=SALIENTE_EXTRUIR12_DEPTH)

    # Croquis46 → Saliente-Extruir13 (add)
    with BuildSketch(Plane.XZ.offset(-20)):
        with BuildLine():
            Line((15.25, 0), (20, 0))
            Line((20, 0), (20, 15.25))
            Line((20, 15.25), (7.549834435, 15.25))
            Line((7.549834435, 15.25), (7.549834435, 13.25))
            ThreePointArc((7.549834435, 13.25), (13.185171124, 7.662490615), (15.25, 0))
        make_face()
        with BuildLine():
            Line((-15.25, 0), (-15.25, 15.25))
            Line((-15.25, 15.25), (-7.549834435, 15.25))
            Line((-7.549834435, 15.25), (-7.549834435, 13.25))
            ThreePointArc((-7.549834435, 13.25), (-13.185171124, 7.662490615), (-15.25, 0))
        make_face()
    extrude(amount=-SALIENTE_EXTRUIR13_DEPTH)

    # Croquis47 → Cortar-Extruir40 (cut)
    with BuildSketch(Plane.XY.offset(15.25).offset(CORTAR_EXTRUIR40_START)):
        Polygon((15.41228676, 22.352505966), (17, 25.102505966), (15.41228676, 27.852505966), (12.236860279, 27.852505966), (10.649147039, 25.102505966), (12.236860279, 22.352505966), align=None)
        with Locations((13.824573519, 25.102505966)):
            Circle(CROQUIS47_R, mode=Mode.SUBTRACT)
        Polygon((-12.236860279, 22.352505966), (-15.41228676, 22.352505966), (-17, 25.102505966), (-15.41228676, 27.852505966), (-12.236860279, 27.852505966), (-10.649147039, 25.102505966), align=None)
        with Locations(Location((-13.824573519, 25.102505966, 0), (0, 0, 131.421584744))):
            Circle(CROQUIS47_R, mode=Mode.SUBTRACT)
    extrude(amount=-CORTAR_EXTRUIR40_DEPTH, mode=Mode.SUBTRACT)

    # Croquis48 → Cortar-Extruir41 (cut)
    with BuildSketch(Plane.XY.offset(15.25).offset(CORTAR_EXTRUIR41_START)):
        with Locations((13.824573519, 25.102505966)):
            Circle(CROQUIS48_R)
        with Locations((-13.824573519, 25.102505966)):
            Circle(CROQUIS48_R)
    extrude(amount=CORTAR_EXTRUIR41_DEPTH, mode=Mode.SUBTRACT)

    # Croquis49 → Cortar-Extruir42 (cut, two sides)
    with BuildSketch(Plane.XZ.offset(-20)) as cortar_extruir42_sk:
        with Locations((-37.391633796, 1.105513491)):
            Rectangle(CROQUIS49_W, CROQUIS49_H)
    extrude(amount=CORTAR_EXTRUIR42_DEPTH, mode=Mode.SUBTRACT)
    extrude(cortar_extruir42_sk.sketch, amount=-CORTAR_EXTRUIR42_DEPTH_BACK, mode=Mode.SUBTRACT)

    # Croquis51 → Saliente-Extruir14 (add)
    with BuildSketch(Plane(origin=(0, 30, 0), x_dir=(1, 0, 0), z_dir=(0, 1, 0))):
        Circle(CROQUIS51_R)
        with Locations(Location((0, 0, 0), (0, 0, 270))):
            Circle(CROQUIS51_R_2, mode=Mode.SUBTRACT)
    extrude(amount=-SALIENTE_EXTRUIR14_DEPTH)

    # Croquis52 → Cortar-Extruir43 (cut)
    with BuildSketch(Plane(origin=(0, 0, 13.25), x_dir=(-1, 0, 0), z_dir=(0, 0, -1))):
        Polygon((-10.649147039, 25.102505966), (-12.236860279, 27.852505966), (-15.41228676, 27.852505966), (-17, 25.102505966), (-15.41228676, 22.352505966), (-12.236860279, 22.352505966), align=None)
        Polygon((17, 25.102505966), (15.41228676, 27.852505966), (12.236860279, 27.852505966), (10.649147039, 25.102505966), (12.236860279, 22.352505966), (15.41228676, 22.352505966), align=None)
    extrude(amount=CORTAR_EXTRUIR43_DEPTH, mode=Mode.SUBTRACT)

    # Croquis53 → Cortar-Extruir44 (cut)
    with BuildSketch(Plane.XY.offset(-17)):
        Polygon((3.175426481, 25), (1.58771324, 27.75), (-1.58771324, 27.75), (-3.175426481, 25), (-1.58771324, 22.25), (1.58771324, 22.25), align=None)
    extrude(amount=CORTAR_EXTRUIR44_DEPTH, mode=Mode.SUBTRACT)

    # Croquis54 → Cortar-Extruir45 (cut)
    with BuildSketch(Plane.ZY.offset(-17)):
        Polygon((-4.75, 28.175426481), (-7.5, 26.58771324), (-7.5, 23.41228676), (-4.75, 21.824573519), (-2, 23.41228676), (-2, 26.58771324), align=None)
    extrude(amount=CORTAR_EXTRUIR45_DEPTH, mode=Mode.SUBTRACT)

    # Croquis55 → Saliente-Extruir15 (add)
    with BuildSketch(Plane(origin=(0, 30, 0), x_dir=(1, 0, 0), z_dir=(0, 1, 0))):
        with BuildLine():
            Line((-7.549834435, -13.25), (-7.549834435, -15.25))
            Line((-7.549834435, -15.25), (0, -15.25))
            ThreePointArc((0, -15.25), (-3.905124838, -14.741522988), (-7.549834435, -13.25))
        make_face()
        with BuildLine():
            ThreePointArc((7.549834435, -13.25), (3.905124838, -14.741522988), (0, -15.25))
            Line((0, -15.25), (7.549834435, -15.25))
            Line((7.549834435, -15.25), (7.549834435, -13.25))
        make_face()
    extrude(amount=-SALIENTE_EXTRUIR15_DEPTH)

    # Croquis57 → Cortar-Extruir46 (cut, two sides)
    with BuildSketch(Plane.ZY.offset(27.5)) as cortar_extruir46_sk:
        with Locations((1.32598152, 23.598909176)):
            Rectangle(CROQUIS57_W, CROQUIS57_H)
    extrude(amount=CORTAR_EXTRUIR46_DEPTH, mode=Mode.SUBTRACT)
    extrude(cortar_extruir46_sk.sketch, amount=-CORTAR_EXTRUIR46_DEPTH_BACK, mode=Mode.SUBTRACT)


with BuildPart() as body_2_2_1:
    # Croquis56 → Saliente-Extruir16 (new body)
    with BuildSketch(Plane(origin=(0, 30, 0), x_dir=(1, 0, 0), z_dir=(0, 1, 0))):
        with Locations((0, 1.956478778)):
            Rectangle(CROQUIS56_W, CROQUIS56_H)
        with Locations(Location((0, 0, 0), (0, 0, 270))):
            Circle(CROQUIS56_R, mode=Mode.SUBTRACT)
    extrude(amount=SALIENTE_EXTRUIR16_DEPTH)

    # Croquis58 → Cortar-Extruir47 (cut)
    with BuildSketch(Plane.XZ.offset(-30)):
        with Locations(Location((-12.5, 19.25, 0), (0, 0, 270))):
            Circle(CROQUIS58_R)
        with Locations(Location((12.5, 19.25, 0), (0, 0, 270))):
            Circle(CROQUIS58_R)
        with Locations(Location((-12.5, -23.5, 0), (0, 0, 270))):
            Circle(CROQUIS58_R)
        with Locations(Location((12.5, -23.526519471, 0), (0, 0, 270))):
            Circle(CROQUIS58_R)
        with Locations(Location((-23.493600539, 10.125, 0), (0, 0, 270))):
            Circle(CROQUIS58_R)
        with Locations(Location((-23.493600539, -14.875, 0), (0, 0, 270))):
            Circle(CROQUIS58_R)
        with Locations(Location((23.493600539, -14.875, 0), (0, 0, 90))):
            Circle(CROQUIS58_R)
        with Locations(Location((23.493600539, 10.125, 0), (0, 0, 90))):
            Circle(CROQUIS58_R)
    extrude(amount=-CORTAR_EXTRUIR47_DEPTH, mode=Mode.SUBTRACT)


solid = body_2_2_1.part
